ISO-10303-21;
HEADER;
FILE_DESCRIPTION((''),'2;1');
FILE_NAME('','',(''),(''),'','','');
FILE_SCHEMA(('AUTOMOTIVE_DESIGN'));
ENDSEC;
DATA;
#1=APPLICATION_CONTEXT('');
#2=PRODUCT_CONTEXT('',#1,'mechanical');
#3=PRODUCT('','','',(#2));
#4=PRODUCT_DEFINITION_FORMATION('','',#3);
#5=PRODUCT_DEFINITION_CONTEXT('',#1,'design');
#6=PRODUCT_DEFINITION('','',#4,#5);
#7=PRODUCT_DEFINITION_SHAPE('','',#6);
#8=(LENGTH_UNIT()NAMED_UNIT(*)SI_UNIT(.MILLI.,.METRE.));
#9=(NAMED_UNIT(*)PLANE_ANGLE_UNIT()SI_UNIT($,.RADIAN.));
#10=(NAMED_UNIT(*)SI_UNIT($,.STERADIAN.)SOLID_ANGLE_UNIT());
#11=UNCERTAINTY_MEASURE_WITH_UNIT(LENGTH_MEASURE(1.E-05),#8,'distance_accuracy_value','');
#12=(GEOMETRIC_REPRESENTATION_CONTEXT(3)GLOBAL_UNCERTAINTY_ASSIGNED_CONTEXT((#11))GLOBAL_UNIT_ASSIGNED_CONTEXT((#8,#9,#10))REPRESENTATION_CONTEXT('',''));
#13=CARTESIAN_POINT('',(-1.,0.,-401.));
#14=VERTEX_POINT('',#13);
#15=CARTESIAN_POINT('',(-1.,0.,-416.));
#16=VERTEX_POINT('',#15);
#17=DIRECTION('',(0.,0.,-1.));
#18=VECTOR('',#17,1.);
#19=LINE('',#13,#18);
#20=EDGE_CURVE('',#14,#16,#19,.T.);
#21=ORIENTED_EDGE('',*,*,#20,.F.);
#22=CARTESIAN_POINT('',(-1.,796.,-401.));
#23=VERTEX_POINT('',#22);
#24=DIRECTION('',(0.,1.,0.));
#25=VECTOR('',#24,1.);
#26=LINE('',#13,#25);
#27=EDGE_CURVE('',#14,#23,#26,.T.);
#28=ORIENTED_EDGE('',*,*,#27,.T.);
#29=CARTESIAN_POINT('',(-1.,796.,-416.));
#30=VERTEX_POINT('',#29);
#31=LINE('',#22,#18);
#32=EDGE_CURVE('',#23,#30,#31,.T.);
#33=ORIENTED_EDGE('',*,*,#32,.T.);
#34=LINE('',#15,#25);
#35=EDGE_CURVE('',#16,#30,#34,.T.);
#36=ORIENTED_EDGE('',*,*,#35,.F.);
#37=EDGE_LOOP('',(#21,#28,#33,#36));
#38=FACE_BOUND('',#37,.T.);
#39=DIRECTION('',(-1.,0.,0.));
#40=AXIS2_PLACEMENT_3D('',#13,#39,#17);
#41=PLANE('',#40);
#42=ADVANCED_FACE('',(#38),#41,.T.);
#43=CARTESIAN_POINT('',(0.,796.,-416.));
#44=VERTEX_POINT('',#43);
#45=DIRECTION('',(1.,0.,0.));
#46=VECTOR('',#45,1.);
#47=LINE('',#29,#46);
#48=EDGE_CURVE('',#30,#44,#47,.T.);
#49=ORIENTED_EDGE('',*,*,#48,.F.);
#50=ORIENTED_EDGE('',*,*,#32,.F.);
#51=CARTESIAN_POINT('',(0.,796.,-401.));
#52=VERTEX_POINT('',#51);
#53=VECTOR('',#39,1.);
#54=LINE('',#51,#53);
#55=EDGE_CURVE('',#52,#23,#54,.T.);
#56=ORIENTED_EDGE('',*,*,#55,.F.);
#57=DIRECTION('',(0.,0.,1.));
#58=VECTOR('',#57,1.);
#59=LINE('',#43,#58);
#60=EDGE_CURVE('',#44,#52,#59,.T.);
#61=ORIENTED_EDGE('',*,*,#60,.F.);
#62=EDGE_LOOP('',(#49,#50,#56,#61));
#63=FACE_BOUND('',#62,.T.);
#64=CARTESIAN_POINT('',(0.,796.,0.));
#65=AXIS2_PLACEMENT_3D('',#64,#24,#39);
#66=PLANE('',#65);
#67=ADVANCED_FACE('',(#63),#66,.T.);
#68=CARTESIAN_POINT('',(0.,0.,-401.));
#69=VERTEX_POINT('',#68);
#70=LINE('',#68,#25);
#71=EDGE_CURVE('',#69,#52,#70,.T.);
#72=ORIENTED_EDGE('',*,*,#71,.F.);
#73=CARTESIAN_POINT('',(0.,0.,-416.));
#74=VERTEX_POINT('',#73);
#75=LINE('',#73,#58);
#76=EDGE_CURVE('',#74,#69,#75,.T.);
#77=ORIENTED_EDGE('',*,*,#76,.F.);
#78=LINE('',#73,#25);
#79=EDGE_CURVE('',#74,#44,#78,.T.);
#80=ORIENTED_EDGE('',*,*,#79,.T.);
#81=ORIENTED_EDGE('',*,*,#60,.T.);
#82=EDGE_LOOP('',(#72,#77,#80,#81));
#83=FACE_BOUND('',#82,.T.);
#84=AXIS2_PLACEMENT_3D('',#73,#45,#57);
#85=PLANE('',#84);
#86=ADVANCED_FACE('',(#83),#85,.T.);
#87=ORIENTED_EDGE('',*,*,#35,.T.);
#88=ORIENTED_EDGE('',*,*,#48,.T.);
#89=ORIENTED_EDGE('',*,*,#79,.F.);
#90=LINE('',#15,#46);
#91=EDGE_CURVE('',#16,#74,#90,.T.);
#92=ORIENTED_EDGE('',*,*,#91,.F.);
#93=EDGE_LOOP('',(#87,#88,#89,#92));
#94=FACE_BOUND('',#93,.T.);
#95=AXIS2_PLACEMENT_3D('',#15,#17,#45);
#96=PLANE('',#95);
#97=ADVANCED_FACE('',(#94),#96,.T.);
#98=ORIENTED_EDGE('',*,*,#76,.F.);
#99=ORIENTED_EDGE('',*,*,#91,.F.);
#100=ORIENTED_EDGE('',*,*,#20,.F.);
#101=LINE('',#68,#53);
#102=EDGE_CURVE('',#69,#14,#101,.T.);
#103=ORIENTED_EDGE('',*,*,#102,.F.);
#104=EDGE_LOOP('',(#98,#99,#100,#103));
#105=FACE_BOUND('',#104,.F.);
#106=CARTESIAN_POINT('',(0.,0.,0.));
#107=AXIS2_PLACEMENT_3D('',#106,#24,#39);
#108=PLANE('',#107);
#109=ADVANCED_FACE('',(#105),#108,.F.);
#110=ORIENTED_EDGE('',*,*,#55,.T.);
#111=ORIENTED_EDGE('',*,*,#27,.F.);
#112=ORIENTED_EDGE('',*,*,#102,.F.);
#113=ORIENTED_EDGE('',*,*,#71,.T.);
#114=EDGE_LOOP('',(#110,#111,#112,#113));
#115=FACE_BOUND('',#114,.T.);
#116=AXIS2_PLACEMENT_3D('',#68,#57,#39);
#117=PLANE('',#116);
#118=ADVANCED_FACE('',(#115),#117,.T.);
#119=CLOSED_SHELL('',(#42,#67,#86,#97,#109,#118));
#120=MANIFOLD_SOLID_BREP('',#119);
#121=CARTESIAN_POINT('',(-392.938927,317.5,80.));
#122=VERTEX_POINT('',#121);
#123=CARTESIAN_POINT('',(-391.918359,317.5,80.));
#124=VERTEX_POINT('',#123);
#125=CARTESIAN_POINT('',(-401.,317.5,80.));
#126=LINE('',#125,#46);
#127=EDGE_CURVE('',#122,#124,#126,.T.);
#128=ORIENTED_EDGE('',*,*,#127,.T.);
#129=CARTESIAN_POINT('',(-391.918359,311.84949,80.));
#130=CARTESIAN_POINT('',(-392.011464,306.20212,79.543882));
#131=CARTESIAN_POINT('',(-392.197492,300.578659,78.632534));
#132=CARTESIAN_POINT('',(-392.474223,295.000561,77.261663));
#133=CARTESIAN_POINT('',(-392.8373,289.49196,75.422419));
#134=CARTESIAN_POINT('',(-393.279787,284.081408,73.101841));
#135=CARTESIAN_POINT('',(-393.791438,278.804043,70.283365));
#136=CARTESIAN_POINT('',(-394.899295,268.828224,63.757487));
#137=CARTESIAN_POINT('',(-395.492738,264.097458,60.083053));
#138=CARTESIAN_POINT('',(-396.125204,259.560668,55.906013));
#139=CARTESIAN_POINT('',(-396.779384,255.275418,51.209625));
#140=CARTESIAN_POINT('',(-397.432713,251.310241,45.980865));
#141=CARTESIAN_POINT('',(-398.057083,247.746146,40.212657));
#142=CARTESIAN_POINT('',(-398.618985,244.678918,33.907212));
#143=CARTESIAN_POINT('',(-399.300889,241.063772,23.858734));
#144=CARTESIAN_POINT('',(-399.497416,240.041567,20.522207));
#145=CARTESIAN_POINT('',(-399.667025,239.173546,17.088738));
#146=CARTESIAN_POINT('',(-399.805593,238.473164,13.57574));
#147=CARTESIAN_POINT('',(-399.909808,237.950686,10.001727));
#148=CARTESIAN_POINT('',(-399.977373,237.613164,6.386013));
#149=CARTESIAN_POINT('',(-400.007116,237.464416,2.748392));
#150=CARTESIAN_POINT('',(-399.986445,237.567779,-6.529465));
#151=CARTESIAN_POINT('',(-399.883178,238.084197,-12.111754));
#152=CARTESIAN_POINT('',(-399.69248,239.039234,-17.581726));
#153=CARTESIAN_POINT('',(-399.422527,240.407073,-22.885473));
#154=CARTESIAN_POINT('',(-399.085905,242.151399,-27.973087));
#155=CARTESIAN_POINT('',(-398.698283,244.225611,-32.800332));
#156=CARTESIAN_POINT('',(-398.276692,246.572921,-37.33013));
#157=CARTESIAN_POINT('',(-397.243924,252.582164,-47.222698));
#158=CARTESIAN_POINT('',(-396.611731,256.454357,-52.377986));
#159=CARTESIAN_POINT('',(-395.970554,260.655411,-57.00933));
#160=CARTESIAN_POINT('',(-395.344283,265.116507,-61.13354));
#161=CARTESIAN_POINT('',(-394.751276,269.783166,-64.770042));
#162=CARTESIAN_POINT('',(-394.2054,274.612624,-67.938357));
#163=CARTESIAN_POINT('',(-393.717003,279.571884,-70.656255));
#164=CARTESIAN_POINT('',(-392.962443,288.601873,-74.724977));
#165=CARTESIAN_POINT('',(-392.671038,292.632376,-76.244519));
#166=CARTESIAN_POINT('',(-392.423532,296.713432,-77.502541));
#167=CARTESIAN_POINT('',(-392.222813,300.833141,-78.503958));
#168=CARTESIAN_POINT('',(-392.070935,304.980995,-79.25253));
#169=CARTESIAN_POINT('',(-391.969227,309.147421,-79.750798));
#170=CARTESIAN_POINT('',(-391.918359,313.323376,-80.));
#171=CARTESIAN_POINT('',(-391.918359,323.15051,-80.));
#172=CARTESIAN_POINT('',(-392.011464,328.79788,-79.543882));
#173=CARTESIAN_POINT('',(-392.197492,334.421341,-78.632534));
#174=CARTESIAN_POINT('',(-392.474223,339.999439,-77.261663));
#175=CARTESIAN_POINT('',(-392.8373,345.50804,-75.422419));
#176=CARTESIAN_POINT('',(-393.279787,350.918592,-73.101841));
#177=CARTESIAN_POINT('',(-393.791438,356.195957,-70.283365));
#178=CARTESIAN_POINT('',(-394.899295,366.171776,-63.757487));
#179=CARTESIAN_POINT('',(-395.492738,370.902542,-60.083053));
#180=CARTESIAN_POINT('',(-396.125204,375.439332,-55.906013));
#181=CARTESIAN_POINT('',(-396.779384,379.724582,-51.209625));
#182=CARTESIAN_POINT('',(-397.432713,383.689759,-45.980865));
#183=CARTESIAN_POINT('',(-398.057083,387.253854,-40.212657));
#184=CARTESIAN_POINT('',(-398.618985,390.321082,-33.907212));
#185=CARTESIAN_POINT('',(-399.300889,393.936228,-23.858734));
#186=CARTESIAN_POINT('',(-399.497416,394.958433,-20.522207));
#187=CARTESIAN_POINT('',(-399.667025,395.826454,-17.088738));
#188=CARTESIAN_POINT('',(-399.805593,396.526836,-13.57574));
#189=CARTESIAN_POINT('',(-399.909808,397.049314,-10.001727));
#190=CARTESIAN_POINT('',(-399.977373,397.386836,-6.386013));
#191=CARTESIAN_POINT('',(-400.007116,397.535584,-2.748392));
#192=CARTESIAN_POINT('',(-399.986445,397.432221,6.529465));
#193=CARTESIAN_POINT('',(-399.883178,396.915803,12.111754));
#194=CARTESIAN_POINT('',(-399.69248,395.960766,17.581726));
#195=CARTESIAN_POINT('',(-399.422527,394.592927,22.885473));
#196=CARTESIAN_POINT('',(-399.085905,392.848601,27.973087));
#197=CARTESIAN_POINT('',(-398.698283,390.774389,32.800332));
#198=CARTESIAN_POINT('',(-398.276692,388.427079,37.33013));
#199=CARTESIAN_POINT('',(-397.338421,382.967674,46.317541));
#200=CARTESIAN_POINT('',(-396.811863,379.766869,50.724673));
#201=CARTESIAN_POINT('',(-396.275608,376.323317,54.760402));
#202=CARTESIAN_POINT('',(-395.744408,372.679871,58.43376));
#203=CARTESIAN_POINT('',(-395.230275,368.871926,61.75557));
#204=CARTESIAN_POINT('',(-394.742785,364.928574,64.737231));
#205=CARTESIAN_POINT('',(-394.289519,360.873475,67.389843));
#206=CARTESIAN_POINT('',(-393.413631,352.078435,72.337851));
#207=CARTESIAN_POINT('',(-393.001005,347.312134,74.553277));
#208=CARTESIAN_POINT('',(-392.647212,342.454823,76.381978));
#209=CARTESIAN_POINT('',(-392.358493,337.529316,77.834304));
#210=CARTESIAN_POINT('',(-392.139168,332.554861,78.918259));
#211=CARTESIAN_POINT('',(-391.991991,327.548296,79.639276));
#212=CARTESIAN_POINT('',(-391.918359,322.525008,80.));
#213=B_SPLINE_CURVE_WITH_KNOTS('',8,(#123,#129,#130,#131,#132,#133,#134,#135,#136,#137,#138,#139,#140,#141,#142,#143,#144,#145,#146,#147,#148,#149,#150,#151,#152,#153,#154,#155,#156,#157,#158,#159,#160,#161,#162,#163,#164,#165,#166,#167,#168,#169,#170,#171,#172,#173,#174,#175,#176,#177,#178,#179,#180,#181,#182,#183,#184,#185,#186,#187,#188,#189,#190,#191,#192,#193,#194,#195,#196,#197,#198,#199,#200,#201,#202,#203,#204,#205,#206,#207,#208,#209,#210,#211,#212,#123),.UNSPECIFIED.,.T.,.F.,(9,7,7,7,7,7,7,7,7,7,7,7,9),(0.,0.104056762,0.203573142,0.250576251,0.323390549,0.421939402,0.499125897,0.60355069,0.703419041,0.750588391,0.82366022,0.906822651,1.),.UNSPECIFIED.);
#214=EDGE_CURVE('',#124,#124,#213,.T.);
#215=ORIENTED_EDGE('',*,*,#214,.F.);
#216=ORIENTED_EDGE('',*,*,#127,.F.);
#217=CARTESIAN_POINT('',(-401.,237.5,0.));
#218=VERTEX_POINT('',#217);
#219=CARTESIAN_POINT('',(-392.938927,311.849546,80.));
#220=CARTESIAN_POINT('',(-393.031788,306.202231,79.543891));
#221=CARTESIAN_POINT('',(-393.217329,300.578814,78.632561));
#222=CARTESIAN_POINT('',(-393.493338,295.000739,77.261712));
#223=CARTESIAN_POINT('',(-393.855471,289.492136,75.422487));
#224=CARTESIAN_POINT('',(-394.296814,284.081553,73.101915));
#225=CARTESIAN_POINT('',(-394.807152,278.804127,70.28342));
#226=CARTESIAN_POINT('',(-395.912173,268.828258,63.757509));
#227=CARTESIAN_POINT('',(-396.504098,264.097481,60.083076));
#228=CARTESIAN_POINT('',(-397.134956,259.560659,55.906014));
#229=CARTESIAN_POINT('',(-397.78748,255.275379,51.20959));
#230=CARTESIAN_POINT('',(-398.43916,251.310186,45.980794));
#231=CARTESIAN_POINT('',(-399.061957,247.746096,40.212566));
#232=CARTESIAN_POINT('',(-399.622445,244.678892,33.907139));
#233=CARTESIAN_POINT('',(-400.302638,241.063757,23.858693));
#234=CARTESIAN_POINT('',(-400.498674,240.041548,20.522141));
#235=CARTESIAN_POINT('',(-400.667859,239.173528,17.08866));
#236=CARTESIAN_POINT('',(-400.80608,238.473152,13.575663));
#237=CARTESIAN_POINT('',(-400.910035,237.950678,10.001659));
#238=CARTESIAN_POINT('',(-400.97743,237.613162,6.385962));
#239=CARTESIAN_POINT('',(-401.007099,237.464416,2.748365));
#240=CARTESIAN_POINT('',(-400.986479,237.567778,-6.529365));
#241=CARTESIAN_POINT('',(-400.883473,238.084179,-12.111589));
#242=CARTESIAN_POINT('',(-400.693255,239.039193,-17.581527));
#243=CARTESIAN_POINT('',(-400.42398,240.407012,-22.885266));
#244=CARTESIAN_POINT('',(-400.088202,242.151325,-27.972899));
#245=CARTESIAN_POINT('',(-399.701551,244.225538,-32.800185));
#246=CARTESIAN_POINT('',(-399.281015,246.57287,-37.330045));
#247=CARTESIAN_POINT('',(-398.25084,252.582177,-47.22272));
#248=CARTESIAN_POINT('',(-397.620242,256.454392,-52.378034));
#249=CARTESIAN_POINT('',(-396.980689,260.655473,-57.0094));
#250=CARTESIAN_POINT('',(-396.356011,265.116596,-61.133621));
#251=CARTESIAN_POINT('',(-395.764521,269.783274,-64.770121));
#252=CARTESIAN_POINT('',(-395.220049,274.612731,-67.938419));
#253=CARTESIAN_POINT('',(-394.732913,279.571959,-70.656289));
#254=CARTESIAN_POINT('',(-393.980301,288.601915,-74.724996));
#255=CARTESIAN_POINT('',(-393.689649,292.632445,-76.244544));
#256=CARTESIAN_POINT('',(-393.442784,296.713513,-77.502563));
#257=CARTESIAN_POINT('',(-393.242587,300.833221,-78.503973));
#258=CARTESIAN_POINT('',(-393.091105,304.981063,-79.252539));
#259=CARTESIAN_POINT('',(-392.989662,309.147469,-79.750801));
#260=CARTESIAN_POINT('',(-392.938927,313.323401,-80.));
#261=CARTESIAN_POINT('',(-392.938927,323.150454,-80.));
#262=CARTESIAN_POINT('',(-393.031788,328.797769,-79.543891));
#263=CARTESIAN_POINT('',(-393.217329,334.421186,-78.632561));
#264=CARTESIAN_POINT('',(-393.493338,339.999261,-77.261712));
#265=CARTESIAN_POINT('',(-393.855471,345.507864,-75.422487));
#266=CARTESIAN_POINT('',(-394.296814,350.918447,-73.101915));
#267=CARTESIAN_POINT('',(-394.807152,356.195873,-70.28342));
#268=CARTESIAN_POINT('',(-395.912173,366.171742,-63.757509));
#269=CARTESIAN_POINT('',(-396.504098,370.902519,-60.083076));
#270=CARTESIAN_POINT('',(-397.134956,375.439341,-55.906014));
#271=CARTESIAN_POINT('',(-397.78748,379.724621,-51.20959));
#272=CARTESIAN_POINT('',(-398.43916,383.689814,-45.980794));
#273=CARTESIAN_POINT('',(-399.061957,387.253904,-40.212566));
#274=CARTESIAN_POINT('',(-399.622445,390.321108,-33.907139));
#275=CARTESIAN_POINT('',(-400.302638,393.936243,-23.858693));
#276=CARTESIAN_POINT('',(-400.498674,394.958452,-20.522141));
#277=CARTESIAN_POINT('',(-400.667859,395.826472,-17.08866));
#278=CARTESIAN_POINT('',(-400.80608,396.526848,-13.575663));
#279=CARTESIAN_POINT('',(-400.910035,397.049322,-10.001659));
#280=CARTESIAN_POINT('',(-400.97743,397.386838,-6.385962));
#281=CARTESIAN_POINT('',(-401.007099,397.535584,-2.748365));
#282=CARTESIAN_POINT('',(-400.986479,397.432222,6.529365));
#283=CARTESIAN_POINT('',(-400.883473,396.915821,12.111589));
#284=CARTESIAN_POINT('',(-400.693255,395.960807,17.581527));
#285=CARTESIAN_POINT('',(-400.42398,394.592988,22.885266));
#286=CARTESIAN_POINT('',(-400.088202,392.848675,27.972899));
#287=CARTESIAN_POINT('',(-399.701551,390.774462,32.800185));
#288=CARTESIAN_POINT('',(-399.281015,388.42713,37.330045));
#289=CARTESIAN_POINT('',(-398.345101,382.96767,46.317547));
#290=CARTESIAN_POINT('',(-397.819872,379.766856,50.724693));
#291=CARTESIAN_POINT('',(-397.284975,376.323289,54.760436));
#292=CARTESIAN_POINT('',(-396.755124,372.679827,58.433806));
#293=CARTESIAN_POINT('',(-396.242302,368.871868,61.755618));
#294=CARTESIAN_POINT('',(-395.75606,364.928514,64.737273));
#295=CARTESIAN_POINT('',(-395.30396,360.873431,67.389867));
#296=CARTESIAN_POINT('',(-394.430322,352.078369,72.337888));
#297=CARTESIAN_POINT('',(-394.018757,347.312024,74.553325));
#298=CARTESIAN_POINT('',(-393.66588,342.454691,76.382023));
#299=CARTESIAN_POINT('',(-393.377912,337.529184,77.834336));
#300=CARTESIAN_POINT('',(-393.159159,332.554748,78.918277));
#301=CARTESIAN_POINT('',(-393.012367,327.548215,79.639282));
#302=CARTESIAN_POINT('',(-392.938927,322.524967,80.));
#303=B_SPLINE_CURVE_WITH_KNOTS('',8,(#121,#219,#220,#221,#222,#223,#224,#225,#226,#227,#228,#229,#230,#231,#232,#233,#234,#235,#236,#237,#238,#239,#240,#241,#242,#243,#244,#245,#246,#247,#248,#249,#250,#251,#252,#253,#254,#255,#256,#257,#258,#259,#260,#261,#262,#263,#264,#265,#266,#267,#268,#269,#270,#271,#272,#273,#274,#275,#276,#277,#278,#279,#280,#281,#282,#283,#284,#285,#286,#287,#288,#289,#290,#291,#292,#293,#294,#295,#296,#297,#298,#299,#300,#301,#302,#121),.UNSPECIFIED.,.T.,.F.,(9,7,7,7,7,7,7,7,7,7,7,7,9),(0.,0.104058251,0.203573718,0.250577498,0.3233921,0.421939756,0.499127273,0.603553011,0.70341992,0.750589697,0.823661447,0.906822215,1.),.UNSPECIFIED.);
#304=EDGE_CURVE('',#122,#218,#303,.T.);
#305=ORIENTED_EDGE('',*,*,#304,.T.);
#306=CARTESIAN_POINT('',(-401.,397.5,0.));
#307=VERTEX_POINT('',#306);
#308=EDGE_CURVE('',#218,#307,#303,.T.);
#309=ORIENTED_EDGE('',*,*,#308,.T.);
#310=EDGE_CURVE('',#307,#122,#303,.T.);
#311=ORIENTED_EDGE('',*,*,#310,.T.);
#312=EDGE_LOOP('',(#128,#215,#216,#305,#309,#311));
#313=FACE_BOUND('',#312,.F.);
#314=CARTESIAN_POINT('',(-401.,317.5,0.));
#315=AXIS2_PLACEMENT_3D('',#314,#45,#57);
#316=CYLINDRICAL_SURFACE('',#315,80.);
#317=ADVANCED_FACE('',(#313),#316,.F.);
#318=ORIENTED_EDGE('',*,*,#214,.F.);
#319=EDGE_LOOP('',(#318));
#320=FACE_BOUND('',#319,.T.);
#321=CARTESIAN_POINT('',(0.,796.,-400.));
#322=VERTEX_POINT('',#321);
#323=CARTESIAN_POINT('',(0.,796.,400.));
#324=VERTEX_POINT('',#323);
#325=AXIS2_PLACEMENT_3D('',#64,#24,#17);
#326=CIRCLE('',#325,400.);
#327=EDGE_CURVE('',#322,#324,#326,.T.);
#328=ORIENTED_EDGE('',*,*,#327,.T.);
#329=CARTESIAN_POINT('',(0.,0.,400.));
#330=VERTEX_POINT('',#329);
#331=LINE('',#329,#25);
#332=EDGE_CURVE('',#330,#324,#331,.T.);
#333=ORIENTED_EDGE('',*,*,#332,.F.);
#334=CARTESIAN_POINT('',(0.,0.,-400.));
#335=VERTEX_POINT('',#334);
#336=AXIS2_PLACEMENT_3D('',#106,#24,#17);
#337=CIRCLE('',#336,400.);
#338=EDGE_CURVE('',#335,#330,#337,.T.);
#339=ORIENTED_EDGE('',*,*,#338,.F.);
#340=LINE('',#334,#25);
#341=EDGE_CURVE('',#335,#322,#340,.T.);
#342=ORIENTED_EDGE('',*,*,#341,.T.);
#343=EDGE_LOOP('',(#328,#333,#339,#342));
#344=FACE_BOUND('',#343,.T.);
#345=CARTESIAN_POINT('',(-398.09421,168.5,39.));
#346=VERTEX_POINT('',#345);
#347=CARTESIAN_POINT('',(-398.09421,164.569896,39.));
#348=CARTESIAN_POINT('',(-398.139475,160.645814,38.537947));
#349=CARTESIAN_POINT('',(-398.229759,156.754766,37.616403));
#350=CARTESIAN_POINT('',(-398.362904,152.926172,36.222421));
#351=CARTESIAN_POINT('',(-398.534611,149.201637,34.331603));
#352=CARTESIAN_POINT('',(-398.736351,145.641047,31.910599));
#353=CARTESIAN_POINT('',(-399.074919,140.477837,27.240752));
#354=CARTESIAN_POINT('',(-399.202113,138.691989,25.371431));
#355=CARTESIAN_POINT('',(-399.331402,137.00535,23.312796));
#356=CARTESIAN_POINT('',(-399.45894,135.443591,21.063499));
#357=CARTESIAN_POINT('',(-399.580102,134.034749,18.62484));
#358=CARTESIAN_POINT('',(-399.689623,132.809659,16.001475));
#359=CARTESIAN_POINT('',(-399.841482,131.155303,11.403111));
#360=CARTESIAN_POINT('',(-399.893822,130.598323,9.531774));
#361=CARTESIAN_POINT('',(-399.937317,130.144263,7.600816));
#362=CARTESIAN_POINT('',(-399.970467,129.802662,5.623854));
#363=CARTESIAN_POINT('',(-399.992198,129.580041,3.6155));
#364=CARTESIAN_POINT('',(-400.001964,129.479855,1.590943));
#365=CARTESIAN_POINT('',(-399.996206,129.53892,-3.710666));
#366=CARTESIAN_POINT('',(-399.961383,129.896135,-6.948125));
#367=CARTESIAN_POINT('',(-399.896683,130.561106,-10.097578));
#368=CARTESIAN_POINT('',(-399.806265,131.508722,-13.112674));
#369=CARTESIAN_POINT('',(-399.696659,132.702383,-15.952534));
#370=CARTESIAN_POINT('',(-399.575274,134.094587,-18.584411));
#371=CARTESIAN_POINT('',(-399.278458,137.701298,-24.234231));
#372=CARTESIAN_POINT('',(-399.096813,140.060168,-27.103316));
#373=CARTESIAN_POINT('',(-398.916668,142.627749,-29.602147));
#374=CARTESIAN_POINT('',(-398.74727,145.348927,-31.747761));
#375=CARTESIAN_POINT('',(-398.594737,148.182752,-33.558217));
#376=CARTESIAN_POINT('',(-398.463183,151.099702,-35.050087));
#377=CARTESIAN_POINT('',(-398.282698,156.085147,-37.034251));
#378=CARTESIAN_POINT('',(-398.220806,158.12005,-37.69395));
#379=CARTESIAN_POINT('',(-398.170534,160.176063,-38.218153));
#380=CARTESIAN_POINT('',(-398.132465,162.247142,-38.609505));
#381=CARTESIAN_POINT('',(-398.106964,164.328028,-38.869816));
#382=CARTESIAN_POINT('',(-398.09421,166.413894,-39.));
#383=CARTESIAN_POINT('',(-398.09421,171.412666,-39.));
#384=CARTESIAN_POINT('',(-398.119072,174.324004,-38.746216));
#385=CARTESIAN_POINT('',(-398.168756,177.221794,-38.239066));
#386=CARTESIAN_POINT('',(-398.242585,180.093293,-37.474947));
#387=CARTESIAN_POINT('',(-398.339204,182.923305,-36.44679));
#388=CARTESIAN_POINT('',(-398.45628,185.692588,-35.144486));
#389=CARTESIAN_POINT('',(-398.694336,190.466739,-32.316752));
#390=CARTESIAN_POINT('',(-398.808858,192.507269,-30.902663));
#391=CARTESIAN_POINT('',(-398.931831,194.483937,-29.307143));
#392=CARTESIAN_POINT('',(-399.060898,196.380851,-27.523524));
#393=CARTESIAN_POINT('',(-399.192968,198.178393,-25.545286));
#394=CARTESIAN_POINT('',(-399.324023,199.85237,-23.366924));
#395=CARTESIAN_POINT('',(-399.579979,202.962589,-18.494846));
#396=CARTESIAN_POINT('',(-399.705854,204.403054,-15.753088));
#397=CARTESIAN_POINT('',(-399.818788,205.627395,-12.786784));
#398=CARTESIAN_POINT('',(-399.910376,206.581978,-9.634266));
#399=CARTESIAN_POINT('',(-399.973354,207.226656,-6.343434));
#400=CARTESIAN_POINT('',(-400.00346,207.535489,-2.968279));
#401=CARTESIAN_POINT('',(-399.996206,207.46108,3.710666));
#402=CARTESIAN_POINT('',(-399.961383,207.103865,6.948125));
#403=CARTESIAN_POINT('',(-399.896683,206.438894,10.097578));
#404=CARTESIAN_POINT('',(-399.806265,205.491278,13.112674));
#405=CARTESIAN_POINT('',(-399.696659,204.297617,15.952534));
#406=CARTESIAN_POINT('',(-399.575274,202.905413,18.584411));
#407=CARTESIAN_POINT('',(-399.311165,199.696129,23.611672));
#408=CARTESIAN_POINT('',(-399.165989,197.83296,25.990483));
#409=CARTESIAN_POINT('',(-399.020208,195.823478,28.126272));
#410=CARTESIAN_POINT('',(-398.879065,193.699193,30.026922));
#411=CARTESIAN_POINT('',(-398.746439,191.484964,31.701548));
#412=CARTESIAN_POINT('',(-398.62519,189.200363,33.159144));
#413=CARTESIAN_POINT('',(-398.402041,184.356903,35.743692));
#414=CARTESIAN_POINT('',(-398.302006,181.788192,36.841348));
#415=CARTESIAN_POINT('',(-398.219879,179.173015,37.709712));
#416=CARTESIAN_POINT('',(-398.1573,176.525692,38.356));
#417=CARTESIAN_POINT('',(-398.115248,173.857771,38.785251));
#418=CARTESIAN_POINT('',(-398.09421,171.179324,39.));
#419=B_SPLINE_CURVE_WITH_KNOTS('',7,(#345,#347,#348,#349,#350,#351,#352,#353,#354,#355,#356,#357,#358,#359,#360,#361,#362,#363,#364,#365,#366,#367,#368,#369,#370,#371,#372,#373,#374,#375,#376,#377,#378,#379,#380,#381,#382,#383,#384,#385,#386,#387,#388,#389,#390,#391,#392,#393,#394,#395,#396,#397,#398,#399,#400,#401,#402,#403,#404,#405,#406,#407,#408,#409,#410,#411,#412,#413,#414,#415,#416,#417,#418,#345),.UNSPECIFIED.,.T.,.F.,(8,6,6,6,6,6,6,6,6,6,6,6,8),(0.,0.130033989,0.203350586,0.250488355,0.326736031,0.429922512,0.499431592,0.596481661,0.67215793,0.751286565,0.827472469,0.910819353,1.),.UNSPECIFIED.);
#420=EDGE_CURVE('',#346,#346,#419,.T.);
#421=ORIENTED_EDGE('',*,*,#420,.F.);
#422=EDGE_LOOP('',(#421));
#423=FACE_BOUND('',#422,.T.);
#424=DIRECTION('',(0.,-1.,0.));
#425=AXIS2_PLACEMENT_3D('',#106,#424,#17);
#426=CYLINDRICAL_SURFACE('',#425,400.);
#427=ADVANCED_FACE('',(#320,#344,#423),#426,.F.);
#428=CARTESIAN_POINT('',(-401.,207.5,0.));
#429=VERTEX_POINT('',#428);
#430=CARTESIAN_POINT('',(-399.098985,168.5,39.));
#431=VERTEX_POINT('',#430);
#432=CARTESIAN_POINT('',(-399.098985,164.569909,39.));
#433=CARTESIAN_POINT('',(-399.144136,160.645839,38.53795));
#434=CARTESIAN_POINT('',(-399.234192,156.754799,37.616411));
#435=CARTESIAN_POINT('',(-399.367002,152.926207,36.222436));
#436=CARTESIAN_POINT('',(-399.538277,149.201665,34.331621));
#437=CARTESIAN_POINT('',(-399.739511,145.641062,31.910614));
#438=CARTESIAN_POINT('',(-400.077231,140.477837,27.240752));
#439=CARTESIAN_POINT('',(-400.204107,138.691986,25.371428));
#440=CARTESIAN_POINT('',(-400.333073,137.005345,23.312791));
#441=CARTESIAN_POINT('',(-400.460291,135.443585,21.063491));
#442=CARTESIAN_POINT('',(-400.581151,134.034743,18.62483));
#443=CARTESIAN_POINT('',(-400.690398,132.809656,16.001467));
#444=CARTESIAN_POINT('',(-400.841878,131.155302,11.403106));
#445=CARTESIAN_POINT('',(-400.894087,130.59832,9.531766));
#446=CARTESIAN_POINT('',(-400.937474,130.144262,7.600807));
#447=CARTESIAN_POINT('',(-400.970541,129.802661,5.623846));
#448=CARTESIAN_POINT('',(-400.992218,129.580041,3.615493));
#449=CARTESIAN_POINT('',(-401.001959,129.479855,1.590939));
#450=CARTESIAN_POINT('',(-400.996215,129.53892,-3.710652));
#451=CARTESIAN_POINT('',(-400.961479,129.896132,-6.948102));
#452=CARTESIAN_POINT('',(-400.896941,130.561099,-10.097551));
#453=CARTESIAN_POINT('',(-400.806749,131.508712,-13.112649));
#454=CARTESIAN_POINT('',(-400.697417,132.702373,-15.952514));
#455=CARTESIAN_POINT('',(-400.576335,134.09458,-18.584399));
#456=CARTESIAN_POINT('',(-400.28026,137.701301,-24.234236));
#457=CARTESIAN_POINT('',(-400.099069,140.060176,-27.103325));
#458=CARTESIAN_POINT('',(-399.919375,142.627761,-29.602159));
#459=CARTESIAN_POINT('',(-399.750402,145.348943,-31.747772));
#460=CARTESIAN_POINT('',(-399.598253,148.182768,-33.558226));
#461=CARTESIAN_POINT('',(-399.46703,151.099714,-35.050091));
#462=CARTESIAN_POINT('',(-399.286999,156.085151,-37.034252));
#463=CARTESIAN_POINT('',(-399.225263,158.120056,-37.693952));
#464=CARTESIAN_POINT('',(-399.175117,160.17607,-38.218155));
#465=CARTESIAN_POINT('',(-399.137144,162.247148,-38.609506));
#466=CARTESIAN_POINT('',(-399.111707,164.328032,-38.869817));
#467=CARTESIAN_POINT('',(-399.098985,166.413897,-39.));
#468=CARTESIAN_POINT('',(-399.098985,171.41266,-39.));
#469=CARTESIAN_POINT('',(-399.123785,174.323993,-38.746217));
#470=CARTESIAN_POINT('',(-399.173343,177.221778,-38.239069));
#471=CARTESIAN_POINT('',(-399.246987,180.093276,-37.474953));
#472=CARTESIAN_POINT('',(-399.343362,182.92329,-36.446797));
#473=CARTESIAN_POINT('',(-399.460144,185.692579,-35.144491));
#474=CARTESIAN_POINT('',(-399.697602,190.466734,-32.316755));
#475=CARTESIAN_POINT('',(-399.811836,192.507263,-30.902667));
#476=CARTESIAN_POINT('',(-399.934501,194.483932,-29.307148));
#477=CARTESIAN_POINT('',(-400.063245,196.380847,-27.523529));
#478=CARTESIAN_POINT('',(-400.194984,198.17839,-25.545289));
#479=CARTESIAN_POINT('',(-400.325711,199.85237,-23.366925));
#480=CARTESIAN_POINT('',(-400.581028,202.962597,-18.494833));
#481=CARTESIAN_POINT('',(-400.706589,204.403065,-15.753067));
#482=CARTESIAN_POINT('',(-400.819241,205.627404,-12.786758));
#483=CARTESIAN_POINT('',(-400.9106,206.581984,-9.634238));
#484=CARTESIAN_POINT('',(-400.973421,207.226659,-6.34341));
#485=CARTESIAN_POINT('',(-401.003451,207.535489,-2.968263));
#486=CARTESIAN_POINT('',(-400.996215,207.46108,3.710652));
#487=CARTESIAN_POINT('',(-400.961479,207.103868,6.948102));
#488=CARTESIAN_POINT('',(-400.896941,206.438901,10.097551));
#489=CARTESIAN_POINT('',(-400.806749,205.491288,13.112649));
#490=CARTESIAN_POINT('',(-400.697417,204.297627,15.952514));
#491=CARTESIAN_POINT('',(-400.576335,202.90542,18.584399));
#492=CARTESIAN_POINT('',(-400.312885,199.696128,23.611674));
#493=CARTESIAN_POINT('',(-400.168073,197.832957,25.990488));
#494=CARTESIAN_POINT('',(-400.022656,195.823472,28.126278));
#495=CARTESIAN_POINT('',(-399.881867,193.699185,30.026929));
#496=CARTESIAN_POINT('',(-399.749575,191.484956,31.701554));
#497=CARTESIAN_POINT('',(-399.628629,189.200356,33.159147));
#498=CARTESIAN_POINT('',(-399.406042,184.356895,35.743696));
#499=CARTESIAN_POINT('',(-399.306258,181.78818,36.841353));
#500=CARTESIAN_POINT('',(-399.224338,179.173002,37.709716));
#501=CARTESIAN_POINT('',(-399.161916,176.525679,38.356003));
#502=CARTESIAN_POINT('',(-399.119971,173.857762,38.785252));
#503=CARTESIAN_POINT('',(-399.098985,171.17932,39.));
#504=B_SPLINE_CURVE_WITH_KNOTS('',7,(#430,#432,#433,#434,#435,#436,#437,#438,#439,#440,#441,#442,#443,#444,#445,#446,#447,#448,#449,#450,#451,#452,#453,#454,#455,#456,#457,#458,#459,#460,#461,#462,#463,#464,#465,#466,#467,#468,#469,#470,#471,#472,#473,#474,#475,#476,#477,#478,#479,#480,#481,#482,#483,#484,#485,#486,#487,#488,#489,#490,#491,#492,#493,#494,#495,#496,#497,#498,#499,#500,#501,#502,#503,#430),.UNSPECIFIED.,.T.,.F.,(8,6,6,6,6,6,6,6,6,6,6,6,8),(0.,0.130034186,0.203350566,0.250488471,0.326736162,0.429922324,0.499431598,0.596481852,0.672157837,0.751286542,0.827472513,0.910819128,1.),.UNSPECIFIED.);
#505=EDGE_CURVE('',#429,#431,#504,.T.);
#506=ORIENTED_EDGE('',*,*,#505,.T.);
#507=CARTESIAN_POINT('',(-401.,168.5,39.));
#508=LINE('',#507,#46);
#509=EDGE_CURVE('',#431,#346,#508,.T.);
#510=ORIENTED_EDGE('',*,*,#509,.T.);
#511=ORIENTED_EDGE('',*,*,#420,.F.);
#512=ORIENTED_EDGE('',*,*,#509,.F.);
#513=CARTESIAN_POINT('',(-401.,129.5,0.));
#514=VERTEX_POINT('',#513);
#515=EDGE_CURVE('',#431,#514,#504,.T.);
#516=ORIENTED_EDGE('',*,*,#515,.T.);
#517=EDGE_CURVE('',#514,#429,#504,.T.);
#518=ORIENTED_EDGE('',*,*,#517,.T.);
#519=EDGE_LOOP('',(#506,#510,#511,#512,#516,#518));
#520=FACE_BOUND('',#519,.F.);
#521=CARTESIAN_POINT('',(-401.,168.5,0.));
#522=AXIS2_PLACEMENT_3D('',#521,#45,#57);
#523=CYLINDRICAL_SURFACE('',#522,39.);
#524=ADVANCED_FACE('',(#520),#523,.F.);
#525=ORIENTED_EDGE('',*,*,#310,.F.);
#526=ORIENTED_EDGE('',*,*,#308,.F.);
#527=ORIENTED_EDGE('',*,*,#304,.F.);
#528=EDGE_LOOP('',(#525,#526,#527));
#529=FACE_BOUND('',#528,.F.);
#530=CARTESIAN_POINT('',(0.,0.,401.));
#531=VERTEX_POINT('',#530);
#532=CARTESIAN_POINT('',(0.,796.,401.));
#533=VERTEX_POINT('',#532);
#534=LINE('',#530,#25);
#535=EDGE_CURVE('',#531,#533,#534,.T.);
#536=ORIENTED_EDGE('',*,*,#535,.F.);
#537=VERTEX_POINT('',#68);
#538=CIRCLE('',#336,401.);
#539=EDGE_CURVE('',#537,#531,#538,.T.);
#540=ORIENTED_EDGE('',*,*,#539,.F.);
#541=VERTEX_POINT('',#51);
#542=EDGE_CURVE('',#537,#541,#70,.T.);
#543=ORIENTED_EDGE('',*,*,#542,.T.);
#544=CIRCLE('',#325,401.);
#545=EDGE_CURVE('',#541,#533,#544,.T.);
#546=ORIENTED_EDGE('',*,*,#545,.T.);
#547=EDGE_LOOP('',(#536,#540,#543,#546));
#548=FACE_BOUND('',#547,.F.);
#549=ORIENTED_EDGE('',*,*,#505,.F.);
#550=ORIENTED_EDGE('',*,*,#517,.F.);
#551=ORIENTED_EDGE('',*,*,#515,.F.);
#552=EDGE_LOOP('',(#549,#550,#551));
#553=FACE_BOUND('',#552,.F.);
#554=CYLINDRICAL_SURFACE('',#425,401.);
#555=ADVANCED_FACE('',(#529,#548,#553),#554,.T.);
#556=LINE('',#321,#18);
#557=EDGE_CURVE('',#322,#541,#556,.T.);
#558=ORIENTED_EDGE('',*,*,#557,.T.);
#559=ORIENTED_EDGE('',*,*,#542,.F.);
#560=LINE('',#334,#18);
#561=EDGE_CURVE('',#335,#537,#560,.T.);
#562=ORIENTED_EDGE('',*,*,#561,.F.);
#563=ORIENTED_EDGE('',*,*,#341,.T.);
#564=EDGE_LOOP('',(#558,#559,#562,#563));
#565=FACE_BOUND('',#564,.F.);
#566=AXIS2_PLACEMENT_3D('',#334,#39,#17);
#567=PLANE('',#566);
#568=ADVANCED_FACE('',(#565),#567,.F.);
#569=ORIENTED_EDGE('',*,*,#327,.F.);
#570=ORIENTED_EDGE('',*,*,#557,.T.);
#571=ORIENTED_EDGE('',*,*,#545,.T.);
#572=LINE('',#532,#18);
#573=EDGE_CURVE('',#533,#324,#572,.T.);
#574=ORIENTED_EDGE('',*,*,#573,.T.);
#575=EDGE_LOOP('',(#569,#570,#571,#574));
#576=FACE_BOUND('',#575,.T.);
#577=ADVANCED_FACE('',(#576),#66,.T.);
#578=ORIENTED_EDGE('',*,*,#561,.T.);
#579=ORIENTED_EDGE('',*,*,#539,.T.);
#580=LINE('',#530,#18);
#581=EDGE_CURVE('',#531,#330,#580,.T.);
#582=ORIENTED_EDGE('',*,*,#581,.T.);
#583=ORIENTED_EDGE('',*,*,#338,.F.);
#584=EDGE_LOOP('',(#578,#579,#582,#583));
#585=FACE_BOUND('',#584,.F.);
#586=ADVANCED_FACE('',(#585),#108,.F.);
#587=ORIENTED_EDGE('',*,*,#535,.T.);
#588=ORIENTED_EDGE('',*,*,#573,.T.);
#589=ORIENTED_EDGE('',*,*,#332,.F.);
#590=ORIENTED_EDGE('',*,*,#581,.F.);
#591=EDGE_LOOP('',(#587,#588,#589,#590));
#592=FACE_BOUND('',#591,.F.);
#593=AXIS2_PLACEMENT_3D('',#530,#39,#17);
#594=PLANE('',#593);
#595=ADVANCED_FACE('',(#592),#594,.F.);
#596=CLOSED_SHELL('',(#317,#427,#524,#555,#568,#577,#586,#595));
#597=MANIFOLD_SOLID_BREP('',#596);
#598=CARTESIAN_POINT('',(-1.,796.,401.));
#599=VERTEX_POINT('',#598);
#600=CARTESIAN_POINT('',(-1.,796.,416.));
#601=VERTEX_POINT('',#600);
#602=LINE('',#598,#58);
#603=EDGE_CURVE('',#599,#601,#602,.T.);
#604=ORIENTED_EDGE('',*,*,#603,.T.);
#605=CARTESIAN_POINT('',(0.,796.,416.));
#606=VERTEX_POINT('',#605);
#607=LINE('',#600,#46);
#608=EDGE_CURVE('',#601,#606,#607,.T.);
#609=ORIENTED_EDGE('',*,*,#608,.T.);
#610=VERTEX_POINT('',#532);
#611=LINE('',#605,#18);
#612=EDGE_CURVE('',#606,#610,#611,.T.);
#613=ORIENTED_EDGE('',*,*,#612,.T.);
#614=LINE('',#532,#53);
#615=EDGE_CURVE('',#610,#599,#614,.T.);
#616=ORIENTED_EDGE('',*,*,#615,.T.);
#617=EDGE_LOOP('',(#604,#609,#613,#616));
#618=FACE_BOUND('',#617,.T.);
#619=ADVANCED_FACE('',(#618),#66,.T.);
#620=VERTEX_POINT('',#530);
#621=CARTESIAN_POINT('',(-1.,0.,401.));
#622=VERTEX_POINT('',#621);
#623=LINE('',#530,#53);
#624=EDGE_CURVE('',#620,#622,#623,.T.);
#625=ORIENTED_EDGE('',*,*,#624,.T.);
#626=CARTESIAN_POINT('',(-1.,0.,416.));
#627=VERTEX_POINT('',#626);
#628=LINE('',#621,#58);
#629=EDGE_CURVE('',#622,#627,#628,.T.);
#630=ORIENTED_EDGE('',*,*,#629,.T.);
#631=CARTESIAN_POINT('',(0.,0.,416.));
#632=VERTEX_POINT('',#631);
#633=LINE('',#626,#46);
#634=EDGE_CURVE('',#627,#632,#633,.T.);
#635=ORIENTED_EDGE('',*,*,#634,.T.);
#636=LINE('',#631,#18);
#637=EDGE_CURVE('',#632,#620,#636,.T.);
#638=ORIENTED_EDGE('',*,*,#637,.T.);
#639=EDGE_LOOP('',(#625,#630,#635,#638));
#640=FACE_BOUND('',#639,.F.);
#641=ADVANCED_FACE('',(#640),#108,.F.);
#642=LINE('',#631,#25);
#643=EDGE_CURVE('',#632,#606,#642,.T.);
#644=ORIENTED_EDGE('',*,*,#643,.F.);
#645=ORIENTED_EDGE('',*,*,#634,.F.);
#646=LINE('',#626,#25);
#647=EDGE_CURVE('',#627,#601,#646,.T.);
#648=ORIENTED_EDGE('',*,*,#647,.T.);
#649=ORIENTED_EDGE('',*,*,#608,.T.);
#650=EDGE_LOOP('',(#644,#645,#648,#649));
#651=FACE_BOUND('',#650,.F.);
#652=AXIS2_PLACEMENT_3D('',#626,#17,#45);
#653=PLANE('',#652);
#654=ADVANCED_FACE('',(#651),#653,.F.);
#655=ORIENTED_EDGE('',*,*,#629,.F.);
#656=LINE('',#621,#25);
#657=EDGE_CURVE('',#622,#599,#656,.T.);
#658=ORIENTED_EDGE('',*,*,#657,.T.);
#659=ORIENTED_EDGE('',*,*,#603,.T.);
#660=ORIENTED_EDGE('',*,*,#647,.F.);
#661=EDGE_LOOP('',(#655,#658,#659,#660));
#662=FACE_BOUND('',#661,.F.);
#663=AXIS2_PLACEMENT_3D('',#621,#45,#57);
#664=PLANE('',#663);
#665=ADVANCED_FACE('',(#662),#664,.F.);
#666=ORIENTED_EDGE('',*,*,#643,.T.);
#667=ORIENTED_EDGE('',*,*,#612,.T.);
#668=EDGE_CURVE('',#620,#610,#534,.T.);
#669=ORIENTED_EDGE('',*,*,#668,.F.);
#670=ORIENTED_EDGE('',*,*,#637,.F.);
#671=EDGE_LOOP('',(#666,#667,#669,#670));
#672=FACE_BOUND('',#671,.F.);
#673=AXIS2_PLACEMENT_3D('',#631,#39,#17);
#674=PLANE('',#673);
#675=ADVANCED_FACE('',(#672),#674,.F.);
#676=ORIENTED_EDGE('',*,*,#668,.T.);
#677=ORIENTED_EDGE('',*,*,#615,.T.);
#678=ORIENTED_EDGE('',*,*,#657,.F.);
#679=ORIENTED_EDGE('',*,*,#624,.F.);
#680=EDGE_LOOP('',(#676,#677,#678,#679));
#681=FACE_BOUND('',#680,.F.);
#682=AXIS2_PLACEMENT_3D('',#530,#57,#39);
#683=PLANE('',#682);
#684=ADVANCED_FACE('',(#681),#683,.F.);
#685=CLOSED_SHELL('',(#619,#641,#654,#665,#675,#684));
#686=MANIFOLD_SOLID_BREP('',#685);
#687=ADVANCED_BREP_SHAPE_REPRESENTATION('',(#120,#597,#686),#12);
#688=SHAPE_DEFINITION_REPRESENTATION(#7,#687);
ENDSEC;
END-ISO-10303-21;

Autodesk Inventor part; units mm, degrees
ref_plane "YZ Plane" through (0, 0, 0) normal (1, 0, 0) x (0, 1, 0)
ref_plane "XZ Plane" through (0, 0, 0) normal (0, 1, 0) x (-1, 0, 0)
sketch "Sketch1" plane through (0, 0, 0) normal (0, 1, 0) x (-1, 0, 0)
  arc A0 (0, -401) -> (0, 401) centre (0, 0) ccw
  line L0 (0, 0) -> (0, 401) construction
  line L1 (0, 0) -> (0, -401) construction
  arc A1 (0, -400) -> (0, 400) centre (0, 0) ccw
  line L2 (0, 0) -> (0, 400) construction
  line L3 (0, 0) -> (0, -400) construction
  line L4 (0, 401) -> (0, 400)
  line L5 (0, -400) -> (0, -401)
  dimension "d0" = 401
  dimension "d1" = 180
  dimension "d2" = 400
  dimension "d3" = 180
extrude "Extrusion1" add sketch "Sketch1" along normal blind 796
sketch "Sketch2" plane through (0, 0, 0) normal (0, 1, 0) x (-1, 0, 0)
  line L0 (0, -401) -> (1, -401)
  line L1 (1, -401) -> (1, -416)
  line L2 (1, -416) -> (0, -416)
  line L3 (0, -416) -> (0, -401)
  point P0 (0, 0)
  dimension "d6" = 1
  dimension "d7" = 15
extrude "Extrusion2" add sketch "Sketch2" along normal blind 796
sketch "Sketch4" plane through (0, 0, 0) normal (0, 1, 0) x (-1, 0, 0)
  line L0 (0, 401) -> (1, 401)
  line L1 (1, 401) -> (1, 416)
  line L2 (1, 416) -> (0, 416)
  line L3 (0, 416) -> (0, 401)
  point P0 (0, 0)
  dimension "d10" = 1
  dimension "d11" = 15
extrude "Extrusion3" add sketch "Sketch4" along normal blind 796
ref_plane "Work Plane1" through (-401, 0, 0) normal (-1, 0, 0) x (0, -1, 0)
sketch "Sketch6" plane through (-401, 0, 0) normal (-1, 0, 0) x (0, -1, 0)
  circle A0 centre (-168.5, 0) radius 39
  line L0 (-796, 401) -> (-796, -401) projected
  point P0 (0, 0)
  dimension "d15" = 78
  dimension "d16" = 627.5
hole "Hole1" at (-401, 168.5, 0) direction (1, 0, 0) diameter 78 end through all
sketch "Sketch7" plane through (-401, 0, 0) normal (-1, 0, 0) x (0, -1, 0)
  circle A0 centre (-317.5, 0) radius 80
  line L0 (-796, 401) -> (-796, -401) projected
  point P0 (0, 0)
  dimension "d26" = 160
  dimension "d27" = 478.5
hole "Hole2" at (-401, 317.5, 0) direction (1, 0, 0) diameter 160 end through all
properties part number "Upper Back Half"
